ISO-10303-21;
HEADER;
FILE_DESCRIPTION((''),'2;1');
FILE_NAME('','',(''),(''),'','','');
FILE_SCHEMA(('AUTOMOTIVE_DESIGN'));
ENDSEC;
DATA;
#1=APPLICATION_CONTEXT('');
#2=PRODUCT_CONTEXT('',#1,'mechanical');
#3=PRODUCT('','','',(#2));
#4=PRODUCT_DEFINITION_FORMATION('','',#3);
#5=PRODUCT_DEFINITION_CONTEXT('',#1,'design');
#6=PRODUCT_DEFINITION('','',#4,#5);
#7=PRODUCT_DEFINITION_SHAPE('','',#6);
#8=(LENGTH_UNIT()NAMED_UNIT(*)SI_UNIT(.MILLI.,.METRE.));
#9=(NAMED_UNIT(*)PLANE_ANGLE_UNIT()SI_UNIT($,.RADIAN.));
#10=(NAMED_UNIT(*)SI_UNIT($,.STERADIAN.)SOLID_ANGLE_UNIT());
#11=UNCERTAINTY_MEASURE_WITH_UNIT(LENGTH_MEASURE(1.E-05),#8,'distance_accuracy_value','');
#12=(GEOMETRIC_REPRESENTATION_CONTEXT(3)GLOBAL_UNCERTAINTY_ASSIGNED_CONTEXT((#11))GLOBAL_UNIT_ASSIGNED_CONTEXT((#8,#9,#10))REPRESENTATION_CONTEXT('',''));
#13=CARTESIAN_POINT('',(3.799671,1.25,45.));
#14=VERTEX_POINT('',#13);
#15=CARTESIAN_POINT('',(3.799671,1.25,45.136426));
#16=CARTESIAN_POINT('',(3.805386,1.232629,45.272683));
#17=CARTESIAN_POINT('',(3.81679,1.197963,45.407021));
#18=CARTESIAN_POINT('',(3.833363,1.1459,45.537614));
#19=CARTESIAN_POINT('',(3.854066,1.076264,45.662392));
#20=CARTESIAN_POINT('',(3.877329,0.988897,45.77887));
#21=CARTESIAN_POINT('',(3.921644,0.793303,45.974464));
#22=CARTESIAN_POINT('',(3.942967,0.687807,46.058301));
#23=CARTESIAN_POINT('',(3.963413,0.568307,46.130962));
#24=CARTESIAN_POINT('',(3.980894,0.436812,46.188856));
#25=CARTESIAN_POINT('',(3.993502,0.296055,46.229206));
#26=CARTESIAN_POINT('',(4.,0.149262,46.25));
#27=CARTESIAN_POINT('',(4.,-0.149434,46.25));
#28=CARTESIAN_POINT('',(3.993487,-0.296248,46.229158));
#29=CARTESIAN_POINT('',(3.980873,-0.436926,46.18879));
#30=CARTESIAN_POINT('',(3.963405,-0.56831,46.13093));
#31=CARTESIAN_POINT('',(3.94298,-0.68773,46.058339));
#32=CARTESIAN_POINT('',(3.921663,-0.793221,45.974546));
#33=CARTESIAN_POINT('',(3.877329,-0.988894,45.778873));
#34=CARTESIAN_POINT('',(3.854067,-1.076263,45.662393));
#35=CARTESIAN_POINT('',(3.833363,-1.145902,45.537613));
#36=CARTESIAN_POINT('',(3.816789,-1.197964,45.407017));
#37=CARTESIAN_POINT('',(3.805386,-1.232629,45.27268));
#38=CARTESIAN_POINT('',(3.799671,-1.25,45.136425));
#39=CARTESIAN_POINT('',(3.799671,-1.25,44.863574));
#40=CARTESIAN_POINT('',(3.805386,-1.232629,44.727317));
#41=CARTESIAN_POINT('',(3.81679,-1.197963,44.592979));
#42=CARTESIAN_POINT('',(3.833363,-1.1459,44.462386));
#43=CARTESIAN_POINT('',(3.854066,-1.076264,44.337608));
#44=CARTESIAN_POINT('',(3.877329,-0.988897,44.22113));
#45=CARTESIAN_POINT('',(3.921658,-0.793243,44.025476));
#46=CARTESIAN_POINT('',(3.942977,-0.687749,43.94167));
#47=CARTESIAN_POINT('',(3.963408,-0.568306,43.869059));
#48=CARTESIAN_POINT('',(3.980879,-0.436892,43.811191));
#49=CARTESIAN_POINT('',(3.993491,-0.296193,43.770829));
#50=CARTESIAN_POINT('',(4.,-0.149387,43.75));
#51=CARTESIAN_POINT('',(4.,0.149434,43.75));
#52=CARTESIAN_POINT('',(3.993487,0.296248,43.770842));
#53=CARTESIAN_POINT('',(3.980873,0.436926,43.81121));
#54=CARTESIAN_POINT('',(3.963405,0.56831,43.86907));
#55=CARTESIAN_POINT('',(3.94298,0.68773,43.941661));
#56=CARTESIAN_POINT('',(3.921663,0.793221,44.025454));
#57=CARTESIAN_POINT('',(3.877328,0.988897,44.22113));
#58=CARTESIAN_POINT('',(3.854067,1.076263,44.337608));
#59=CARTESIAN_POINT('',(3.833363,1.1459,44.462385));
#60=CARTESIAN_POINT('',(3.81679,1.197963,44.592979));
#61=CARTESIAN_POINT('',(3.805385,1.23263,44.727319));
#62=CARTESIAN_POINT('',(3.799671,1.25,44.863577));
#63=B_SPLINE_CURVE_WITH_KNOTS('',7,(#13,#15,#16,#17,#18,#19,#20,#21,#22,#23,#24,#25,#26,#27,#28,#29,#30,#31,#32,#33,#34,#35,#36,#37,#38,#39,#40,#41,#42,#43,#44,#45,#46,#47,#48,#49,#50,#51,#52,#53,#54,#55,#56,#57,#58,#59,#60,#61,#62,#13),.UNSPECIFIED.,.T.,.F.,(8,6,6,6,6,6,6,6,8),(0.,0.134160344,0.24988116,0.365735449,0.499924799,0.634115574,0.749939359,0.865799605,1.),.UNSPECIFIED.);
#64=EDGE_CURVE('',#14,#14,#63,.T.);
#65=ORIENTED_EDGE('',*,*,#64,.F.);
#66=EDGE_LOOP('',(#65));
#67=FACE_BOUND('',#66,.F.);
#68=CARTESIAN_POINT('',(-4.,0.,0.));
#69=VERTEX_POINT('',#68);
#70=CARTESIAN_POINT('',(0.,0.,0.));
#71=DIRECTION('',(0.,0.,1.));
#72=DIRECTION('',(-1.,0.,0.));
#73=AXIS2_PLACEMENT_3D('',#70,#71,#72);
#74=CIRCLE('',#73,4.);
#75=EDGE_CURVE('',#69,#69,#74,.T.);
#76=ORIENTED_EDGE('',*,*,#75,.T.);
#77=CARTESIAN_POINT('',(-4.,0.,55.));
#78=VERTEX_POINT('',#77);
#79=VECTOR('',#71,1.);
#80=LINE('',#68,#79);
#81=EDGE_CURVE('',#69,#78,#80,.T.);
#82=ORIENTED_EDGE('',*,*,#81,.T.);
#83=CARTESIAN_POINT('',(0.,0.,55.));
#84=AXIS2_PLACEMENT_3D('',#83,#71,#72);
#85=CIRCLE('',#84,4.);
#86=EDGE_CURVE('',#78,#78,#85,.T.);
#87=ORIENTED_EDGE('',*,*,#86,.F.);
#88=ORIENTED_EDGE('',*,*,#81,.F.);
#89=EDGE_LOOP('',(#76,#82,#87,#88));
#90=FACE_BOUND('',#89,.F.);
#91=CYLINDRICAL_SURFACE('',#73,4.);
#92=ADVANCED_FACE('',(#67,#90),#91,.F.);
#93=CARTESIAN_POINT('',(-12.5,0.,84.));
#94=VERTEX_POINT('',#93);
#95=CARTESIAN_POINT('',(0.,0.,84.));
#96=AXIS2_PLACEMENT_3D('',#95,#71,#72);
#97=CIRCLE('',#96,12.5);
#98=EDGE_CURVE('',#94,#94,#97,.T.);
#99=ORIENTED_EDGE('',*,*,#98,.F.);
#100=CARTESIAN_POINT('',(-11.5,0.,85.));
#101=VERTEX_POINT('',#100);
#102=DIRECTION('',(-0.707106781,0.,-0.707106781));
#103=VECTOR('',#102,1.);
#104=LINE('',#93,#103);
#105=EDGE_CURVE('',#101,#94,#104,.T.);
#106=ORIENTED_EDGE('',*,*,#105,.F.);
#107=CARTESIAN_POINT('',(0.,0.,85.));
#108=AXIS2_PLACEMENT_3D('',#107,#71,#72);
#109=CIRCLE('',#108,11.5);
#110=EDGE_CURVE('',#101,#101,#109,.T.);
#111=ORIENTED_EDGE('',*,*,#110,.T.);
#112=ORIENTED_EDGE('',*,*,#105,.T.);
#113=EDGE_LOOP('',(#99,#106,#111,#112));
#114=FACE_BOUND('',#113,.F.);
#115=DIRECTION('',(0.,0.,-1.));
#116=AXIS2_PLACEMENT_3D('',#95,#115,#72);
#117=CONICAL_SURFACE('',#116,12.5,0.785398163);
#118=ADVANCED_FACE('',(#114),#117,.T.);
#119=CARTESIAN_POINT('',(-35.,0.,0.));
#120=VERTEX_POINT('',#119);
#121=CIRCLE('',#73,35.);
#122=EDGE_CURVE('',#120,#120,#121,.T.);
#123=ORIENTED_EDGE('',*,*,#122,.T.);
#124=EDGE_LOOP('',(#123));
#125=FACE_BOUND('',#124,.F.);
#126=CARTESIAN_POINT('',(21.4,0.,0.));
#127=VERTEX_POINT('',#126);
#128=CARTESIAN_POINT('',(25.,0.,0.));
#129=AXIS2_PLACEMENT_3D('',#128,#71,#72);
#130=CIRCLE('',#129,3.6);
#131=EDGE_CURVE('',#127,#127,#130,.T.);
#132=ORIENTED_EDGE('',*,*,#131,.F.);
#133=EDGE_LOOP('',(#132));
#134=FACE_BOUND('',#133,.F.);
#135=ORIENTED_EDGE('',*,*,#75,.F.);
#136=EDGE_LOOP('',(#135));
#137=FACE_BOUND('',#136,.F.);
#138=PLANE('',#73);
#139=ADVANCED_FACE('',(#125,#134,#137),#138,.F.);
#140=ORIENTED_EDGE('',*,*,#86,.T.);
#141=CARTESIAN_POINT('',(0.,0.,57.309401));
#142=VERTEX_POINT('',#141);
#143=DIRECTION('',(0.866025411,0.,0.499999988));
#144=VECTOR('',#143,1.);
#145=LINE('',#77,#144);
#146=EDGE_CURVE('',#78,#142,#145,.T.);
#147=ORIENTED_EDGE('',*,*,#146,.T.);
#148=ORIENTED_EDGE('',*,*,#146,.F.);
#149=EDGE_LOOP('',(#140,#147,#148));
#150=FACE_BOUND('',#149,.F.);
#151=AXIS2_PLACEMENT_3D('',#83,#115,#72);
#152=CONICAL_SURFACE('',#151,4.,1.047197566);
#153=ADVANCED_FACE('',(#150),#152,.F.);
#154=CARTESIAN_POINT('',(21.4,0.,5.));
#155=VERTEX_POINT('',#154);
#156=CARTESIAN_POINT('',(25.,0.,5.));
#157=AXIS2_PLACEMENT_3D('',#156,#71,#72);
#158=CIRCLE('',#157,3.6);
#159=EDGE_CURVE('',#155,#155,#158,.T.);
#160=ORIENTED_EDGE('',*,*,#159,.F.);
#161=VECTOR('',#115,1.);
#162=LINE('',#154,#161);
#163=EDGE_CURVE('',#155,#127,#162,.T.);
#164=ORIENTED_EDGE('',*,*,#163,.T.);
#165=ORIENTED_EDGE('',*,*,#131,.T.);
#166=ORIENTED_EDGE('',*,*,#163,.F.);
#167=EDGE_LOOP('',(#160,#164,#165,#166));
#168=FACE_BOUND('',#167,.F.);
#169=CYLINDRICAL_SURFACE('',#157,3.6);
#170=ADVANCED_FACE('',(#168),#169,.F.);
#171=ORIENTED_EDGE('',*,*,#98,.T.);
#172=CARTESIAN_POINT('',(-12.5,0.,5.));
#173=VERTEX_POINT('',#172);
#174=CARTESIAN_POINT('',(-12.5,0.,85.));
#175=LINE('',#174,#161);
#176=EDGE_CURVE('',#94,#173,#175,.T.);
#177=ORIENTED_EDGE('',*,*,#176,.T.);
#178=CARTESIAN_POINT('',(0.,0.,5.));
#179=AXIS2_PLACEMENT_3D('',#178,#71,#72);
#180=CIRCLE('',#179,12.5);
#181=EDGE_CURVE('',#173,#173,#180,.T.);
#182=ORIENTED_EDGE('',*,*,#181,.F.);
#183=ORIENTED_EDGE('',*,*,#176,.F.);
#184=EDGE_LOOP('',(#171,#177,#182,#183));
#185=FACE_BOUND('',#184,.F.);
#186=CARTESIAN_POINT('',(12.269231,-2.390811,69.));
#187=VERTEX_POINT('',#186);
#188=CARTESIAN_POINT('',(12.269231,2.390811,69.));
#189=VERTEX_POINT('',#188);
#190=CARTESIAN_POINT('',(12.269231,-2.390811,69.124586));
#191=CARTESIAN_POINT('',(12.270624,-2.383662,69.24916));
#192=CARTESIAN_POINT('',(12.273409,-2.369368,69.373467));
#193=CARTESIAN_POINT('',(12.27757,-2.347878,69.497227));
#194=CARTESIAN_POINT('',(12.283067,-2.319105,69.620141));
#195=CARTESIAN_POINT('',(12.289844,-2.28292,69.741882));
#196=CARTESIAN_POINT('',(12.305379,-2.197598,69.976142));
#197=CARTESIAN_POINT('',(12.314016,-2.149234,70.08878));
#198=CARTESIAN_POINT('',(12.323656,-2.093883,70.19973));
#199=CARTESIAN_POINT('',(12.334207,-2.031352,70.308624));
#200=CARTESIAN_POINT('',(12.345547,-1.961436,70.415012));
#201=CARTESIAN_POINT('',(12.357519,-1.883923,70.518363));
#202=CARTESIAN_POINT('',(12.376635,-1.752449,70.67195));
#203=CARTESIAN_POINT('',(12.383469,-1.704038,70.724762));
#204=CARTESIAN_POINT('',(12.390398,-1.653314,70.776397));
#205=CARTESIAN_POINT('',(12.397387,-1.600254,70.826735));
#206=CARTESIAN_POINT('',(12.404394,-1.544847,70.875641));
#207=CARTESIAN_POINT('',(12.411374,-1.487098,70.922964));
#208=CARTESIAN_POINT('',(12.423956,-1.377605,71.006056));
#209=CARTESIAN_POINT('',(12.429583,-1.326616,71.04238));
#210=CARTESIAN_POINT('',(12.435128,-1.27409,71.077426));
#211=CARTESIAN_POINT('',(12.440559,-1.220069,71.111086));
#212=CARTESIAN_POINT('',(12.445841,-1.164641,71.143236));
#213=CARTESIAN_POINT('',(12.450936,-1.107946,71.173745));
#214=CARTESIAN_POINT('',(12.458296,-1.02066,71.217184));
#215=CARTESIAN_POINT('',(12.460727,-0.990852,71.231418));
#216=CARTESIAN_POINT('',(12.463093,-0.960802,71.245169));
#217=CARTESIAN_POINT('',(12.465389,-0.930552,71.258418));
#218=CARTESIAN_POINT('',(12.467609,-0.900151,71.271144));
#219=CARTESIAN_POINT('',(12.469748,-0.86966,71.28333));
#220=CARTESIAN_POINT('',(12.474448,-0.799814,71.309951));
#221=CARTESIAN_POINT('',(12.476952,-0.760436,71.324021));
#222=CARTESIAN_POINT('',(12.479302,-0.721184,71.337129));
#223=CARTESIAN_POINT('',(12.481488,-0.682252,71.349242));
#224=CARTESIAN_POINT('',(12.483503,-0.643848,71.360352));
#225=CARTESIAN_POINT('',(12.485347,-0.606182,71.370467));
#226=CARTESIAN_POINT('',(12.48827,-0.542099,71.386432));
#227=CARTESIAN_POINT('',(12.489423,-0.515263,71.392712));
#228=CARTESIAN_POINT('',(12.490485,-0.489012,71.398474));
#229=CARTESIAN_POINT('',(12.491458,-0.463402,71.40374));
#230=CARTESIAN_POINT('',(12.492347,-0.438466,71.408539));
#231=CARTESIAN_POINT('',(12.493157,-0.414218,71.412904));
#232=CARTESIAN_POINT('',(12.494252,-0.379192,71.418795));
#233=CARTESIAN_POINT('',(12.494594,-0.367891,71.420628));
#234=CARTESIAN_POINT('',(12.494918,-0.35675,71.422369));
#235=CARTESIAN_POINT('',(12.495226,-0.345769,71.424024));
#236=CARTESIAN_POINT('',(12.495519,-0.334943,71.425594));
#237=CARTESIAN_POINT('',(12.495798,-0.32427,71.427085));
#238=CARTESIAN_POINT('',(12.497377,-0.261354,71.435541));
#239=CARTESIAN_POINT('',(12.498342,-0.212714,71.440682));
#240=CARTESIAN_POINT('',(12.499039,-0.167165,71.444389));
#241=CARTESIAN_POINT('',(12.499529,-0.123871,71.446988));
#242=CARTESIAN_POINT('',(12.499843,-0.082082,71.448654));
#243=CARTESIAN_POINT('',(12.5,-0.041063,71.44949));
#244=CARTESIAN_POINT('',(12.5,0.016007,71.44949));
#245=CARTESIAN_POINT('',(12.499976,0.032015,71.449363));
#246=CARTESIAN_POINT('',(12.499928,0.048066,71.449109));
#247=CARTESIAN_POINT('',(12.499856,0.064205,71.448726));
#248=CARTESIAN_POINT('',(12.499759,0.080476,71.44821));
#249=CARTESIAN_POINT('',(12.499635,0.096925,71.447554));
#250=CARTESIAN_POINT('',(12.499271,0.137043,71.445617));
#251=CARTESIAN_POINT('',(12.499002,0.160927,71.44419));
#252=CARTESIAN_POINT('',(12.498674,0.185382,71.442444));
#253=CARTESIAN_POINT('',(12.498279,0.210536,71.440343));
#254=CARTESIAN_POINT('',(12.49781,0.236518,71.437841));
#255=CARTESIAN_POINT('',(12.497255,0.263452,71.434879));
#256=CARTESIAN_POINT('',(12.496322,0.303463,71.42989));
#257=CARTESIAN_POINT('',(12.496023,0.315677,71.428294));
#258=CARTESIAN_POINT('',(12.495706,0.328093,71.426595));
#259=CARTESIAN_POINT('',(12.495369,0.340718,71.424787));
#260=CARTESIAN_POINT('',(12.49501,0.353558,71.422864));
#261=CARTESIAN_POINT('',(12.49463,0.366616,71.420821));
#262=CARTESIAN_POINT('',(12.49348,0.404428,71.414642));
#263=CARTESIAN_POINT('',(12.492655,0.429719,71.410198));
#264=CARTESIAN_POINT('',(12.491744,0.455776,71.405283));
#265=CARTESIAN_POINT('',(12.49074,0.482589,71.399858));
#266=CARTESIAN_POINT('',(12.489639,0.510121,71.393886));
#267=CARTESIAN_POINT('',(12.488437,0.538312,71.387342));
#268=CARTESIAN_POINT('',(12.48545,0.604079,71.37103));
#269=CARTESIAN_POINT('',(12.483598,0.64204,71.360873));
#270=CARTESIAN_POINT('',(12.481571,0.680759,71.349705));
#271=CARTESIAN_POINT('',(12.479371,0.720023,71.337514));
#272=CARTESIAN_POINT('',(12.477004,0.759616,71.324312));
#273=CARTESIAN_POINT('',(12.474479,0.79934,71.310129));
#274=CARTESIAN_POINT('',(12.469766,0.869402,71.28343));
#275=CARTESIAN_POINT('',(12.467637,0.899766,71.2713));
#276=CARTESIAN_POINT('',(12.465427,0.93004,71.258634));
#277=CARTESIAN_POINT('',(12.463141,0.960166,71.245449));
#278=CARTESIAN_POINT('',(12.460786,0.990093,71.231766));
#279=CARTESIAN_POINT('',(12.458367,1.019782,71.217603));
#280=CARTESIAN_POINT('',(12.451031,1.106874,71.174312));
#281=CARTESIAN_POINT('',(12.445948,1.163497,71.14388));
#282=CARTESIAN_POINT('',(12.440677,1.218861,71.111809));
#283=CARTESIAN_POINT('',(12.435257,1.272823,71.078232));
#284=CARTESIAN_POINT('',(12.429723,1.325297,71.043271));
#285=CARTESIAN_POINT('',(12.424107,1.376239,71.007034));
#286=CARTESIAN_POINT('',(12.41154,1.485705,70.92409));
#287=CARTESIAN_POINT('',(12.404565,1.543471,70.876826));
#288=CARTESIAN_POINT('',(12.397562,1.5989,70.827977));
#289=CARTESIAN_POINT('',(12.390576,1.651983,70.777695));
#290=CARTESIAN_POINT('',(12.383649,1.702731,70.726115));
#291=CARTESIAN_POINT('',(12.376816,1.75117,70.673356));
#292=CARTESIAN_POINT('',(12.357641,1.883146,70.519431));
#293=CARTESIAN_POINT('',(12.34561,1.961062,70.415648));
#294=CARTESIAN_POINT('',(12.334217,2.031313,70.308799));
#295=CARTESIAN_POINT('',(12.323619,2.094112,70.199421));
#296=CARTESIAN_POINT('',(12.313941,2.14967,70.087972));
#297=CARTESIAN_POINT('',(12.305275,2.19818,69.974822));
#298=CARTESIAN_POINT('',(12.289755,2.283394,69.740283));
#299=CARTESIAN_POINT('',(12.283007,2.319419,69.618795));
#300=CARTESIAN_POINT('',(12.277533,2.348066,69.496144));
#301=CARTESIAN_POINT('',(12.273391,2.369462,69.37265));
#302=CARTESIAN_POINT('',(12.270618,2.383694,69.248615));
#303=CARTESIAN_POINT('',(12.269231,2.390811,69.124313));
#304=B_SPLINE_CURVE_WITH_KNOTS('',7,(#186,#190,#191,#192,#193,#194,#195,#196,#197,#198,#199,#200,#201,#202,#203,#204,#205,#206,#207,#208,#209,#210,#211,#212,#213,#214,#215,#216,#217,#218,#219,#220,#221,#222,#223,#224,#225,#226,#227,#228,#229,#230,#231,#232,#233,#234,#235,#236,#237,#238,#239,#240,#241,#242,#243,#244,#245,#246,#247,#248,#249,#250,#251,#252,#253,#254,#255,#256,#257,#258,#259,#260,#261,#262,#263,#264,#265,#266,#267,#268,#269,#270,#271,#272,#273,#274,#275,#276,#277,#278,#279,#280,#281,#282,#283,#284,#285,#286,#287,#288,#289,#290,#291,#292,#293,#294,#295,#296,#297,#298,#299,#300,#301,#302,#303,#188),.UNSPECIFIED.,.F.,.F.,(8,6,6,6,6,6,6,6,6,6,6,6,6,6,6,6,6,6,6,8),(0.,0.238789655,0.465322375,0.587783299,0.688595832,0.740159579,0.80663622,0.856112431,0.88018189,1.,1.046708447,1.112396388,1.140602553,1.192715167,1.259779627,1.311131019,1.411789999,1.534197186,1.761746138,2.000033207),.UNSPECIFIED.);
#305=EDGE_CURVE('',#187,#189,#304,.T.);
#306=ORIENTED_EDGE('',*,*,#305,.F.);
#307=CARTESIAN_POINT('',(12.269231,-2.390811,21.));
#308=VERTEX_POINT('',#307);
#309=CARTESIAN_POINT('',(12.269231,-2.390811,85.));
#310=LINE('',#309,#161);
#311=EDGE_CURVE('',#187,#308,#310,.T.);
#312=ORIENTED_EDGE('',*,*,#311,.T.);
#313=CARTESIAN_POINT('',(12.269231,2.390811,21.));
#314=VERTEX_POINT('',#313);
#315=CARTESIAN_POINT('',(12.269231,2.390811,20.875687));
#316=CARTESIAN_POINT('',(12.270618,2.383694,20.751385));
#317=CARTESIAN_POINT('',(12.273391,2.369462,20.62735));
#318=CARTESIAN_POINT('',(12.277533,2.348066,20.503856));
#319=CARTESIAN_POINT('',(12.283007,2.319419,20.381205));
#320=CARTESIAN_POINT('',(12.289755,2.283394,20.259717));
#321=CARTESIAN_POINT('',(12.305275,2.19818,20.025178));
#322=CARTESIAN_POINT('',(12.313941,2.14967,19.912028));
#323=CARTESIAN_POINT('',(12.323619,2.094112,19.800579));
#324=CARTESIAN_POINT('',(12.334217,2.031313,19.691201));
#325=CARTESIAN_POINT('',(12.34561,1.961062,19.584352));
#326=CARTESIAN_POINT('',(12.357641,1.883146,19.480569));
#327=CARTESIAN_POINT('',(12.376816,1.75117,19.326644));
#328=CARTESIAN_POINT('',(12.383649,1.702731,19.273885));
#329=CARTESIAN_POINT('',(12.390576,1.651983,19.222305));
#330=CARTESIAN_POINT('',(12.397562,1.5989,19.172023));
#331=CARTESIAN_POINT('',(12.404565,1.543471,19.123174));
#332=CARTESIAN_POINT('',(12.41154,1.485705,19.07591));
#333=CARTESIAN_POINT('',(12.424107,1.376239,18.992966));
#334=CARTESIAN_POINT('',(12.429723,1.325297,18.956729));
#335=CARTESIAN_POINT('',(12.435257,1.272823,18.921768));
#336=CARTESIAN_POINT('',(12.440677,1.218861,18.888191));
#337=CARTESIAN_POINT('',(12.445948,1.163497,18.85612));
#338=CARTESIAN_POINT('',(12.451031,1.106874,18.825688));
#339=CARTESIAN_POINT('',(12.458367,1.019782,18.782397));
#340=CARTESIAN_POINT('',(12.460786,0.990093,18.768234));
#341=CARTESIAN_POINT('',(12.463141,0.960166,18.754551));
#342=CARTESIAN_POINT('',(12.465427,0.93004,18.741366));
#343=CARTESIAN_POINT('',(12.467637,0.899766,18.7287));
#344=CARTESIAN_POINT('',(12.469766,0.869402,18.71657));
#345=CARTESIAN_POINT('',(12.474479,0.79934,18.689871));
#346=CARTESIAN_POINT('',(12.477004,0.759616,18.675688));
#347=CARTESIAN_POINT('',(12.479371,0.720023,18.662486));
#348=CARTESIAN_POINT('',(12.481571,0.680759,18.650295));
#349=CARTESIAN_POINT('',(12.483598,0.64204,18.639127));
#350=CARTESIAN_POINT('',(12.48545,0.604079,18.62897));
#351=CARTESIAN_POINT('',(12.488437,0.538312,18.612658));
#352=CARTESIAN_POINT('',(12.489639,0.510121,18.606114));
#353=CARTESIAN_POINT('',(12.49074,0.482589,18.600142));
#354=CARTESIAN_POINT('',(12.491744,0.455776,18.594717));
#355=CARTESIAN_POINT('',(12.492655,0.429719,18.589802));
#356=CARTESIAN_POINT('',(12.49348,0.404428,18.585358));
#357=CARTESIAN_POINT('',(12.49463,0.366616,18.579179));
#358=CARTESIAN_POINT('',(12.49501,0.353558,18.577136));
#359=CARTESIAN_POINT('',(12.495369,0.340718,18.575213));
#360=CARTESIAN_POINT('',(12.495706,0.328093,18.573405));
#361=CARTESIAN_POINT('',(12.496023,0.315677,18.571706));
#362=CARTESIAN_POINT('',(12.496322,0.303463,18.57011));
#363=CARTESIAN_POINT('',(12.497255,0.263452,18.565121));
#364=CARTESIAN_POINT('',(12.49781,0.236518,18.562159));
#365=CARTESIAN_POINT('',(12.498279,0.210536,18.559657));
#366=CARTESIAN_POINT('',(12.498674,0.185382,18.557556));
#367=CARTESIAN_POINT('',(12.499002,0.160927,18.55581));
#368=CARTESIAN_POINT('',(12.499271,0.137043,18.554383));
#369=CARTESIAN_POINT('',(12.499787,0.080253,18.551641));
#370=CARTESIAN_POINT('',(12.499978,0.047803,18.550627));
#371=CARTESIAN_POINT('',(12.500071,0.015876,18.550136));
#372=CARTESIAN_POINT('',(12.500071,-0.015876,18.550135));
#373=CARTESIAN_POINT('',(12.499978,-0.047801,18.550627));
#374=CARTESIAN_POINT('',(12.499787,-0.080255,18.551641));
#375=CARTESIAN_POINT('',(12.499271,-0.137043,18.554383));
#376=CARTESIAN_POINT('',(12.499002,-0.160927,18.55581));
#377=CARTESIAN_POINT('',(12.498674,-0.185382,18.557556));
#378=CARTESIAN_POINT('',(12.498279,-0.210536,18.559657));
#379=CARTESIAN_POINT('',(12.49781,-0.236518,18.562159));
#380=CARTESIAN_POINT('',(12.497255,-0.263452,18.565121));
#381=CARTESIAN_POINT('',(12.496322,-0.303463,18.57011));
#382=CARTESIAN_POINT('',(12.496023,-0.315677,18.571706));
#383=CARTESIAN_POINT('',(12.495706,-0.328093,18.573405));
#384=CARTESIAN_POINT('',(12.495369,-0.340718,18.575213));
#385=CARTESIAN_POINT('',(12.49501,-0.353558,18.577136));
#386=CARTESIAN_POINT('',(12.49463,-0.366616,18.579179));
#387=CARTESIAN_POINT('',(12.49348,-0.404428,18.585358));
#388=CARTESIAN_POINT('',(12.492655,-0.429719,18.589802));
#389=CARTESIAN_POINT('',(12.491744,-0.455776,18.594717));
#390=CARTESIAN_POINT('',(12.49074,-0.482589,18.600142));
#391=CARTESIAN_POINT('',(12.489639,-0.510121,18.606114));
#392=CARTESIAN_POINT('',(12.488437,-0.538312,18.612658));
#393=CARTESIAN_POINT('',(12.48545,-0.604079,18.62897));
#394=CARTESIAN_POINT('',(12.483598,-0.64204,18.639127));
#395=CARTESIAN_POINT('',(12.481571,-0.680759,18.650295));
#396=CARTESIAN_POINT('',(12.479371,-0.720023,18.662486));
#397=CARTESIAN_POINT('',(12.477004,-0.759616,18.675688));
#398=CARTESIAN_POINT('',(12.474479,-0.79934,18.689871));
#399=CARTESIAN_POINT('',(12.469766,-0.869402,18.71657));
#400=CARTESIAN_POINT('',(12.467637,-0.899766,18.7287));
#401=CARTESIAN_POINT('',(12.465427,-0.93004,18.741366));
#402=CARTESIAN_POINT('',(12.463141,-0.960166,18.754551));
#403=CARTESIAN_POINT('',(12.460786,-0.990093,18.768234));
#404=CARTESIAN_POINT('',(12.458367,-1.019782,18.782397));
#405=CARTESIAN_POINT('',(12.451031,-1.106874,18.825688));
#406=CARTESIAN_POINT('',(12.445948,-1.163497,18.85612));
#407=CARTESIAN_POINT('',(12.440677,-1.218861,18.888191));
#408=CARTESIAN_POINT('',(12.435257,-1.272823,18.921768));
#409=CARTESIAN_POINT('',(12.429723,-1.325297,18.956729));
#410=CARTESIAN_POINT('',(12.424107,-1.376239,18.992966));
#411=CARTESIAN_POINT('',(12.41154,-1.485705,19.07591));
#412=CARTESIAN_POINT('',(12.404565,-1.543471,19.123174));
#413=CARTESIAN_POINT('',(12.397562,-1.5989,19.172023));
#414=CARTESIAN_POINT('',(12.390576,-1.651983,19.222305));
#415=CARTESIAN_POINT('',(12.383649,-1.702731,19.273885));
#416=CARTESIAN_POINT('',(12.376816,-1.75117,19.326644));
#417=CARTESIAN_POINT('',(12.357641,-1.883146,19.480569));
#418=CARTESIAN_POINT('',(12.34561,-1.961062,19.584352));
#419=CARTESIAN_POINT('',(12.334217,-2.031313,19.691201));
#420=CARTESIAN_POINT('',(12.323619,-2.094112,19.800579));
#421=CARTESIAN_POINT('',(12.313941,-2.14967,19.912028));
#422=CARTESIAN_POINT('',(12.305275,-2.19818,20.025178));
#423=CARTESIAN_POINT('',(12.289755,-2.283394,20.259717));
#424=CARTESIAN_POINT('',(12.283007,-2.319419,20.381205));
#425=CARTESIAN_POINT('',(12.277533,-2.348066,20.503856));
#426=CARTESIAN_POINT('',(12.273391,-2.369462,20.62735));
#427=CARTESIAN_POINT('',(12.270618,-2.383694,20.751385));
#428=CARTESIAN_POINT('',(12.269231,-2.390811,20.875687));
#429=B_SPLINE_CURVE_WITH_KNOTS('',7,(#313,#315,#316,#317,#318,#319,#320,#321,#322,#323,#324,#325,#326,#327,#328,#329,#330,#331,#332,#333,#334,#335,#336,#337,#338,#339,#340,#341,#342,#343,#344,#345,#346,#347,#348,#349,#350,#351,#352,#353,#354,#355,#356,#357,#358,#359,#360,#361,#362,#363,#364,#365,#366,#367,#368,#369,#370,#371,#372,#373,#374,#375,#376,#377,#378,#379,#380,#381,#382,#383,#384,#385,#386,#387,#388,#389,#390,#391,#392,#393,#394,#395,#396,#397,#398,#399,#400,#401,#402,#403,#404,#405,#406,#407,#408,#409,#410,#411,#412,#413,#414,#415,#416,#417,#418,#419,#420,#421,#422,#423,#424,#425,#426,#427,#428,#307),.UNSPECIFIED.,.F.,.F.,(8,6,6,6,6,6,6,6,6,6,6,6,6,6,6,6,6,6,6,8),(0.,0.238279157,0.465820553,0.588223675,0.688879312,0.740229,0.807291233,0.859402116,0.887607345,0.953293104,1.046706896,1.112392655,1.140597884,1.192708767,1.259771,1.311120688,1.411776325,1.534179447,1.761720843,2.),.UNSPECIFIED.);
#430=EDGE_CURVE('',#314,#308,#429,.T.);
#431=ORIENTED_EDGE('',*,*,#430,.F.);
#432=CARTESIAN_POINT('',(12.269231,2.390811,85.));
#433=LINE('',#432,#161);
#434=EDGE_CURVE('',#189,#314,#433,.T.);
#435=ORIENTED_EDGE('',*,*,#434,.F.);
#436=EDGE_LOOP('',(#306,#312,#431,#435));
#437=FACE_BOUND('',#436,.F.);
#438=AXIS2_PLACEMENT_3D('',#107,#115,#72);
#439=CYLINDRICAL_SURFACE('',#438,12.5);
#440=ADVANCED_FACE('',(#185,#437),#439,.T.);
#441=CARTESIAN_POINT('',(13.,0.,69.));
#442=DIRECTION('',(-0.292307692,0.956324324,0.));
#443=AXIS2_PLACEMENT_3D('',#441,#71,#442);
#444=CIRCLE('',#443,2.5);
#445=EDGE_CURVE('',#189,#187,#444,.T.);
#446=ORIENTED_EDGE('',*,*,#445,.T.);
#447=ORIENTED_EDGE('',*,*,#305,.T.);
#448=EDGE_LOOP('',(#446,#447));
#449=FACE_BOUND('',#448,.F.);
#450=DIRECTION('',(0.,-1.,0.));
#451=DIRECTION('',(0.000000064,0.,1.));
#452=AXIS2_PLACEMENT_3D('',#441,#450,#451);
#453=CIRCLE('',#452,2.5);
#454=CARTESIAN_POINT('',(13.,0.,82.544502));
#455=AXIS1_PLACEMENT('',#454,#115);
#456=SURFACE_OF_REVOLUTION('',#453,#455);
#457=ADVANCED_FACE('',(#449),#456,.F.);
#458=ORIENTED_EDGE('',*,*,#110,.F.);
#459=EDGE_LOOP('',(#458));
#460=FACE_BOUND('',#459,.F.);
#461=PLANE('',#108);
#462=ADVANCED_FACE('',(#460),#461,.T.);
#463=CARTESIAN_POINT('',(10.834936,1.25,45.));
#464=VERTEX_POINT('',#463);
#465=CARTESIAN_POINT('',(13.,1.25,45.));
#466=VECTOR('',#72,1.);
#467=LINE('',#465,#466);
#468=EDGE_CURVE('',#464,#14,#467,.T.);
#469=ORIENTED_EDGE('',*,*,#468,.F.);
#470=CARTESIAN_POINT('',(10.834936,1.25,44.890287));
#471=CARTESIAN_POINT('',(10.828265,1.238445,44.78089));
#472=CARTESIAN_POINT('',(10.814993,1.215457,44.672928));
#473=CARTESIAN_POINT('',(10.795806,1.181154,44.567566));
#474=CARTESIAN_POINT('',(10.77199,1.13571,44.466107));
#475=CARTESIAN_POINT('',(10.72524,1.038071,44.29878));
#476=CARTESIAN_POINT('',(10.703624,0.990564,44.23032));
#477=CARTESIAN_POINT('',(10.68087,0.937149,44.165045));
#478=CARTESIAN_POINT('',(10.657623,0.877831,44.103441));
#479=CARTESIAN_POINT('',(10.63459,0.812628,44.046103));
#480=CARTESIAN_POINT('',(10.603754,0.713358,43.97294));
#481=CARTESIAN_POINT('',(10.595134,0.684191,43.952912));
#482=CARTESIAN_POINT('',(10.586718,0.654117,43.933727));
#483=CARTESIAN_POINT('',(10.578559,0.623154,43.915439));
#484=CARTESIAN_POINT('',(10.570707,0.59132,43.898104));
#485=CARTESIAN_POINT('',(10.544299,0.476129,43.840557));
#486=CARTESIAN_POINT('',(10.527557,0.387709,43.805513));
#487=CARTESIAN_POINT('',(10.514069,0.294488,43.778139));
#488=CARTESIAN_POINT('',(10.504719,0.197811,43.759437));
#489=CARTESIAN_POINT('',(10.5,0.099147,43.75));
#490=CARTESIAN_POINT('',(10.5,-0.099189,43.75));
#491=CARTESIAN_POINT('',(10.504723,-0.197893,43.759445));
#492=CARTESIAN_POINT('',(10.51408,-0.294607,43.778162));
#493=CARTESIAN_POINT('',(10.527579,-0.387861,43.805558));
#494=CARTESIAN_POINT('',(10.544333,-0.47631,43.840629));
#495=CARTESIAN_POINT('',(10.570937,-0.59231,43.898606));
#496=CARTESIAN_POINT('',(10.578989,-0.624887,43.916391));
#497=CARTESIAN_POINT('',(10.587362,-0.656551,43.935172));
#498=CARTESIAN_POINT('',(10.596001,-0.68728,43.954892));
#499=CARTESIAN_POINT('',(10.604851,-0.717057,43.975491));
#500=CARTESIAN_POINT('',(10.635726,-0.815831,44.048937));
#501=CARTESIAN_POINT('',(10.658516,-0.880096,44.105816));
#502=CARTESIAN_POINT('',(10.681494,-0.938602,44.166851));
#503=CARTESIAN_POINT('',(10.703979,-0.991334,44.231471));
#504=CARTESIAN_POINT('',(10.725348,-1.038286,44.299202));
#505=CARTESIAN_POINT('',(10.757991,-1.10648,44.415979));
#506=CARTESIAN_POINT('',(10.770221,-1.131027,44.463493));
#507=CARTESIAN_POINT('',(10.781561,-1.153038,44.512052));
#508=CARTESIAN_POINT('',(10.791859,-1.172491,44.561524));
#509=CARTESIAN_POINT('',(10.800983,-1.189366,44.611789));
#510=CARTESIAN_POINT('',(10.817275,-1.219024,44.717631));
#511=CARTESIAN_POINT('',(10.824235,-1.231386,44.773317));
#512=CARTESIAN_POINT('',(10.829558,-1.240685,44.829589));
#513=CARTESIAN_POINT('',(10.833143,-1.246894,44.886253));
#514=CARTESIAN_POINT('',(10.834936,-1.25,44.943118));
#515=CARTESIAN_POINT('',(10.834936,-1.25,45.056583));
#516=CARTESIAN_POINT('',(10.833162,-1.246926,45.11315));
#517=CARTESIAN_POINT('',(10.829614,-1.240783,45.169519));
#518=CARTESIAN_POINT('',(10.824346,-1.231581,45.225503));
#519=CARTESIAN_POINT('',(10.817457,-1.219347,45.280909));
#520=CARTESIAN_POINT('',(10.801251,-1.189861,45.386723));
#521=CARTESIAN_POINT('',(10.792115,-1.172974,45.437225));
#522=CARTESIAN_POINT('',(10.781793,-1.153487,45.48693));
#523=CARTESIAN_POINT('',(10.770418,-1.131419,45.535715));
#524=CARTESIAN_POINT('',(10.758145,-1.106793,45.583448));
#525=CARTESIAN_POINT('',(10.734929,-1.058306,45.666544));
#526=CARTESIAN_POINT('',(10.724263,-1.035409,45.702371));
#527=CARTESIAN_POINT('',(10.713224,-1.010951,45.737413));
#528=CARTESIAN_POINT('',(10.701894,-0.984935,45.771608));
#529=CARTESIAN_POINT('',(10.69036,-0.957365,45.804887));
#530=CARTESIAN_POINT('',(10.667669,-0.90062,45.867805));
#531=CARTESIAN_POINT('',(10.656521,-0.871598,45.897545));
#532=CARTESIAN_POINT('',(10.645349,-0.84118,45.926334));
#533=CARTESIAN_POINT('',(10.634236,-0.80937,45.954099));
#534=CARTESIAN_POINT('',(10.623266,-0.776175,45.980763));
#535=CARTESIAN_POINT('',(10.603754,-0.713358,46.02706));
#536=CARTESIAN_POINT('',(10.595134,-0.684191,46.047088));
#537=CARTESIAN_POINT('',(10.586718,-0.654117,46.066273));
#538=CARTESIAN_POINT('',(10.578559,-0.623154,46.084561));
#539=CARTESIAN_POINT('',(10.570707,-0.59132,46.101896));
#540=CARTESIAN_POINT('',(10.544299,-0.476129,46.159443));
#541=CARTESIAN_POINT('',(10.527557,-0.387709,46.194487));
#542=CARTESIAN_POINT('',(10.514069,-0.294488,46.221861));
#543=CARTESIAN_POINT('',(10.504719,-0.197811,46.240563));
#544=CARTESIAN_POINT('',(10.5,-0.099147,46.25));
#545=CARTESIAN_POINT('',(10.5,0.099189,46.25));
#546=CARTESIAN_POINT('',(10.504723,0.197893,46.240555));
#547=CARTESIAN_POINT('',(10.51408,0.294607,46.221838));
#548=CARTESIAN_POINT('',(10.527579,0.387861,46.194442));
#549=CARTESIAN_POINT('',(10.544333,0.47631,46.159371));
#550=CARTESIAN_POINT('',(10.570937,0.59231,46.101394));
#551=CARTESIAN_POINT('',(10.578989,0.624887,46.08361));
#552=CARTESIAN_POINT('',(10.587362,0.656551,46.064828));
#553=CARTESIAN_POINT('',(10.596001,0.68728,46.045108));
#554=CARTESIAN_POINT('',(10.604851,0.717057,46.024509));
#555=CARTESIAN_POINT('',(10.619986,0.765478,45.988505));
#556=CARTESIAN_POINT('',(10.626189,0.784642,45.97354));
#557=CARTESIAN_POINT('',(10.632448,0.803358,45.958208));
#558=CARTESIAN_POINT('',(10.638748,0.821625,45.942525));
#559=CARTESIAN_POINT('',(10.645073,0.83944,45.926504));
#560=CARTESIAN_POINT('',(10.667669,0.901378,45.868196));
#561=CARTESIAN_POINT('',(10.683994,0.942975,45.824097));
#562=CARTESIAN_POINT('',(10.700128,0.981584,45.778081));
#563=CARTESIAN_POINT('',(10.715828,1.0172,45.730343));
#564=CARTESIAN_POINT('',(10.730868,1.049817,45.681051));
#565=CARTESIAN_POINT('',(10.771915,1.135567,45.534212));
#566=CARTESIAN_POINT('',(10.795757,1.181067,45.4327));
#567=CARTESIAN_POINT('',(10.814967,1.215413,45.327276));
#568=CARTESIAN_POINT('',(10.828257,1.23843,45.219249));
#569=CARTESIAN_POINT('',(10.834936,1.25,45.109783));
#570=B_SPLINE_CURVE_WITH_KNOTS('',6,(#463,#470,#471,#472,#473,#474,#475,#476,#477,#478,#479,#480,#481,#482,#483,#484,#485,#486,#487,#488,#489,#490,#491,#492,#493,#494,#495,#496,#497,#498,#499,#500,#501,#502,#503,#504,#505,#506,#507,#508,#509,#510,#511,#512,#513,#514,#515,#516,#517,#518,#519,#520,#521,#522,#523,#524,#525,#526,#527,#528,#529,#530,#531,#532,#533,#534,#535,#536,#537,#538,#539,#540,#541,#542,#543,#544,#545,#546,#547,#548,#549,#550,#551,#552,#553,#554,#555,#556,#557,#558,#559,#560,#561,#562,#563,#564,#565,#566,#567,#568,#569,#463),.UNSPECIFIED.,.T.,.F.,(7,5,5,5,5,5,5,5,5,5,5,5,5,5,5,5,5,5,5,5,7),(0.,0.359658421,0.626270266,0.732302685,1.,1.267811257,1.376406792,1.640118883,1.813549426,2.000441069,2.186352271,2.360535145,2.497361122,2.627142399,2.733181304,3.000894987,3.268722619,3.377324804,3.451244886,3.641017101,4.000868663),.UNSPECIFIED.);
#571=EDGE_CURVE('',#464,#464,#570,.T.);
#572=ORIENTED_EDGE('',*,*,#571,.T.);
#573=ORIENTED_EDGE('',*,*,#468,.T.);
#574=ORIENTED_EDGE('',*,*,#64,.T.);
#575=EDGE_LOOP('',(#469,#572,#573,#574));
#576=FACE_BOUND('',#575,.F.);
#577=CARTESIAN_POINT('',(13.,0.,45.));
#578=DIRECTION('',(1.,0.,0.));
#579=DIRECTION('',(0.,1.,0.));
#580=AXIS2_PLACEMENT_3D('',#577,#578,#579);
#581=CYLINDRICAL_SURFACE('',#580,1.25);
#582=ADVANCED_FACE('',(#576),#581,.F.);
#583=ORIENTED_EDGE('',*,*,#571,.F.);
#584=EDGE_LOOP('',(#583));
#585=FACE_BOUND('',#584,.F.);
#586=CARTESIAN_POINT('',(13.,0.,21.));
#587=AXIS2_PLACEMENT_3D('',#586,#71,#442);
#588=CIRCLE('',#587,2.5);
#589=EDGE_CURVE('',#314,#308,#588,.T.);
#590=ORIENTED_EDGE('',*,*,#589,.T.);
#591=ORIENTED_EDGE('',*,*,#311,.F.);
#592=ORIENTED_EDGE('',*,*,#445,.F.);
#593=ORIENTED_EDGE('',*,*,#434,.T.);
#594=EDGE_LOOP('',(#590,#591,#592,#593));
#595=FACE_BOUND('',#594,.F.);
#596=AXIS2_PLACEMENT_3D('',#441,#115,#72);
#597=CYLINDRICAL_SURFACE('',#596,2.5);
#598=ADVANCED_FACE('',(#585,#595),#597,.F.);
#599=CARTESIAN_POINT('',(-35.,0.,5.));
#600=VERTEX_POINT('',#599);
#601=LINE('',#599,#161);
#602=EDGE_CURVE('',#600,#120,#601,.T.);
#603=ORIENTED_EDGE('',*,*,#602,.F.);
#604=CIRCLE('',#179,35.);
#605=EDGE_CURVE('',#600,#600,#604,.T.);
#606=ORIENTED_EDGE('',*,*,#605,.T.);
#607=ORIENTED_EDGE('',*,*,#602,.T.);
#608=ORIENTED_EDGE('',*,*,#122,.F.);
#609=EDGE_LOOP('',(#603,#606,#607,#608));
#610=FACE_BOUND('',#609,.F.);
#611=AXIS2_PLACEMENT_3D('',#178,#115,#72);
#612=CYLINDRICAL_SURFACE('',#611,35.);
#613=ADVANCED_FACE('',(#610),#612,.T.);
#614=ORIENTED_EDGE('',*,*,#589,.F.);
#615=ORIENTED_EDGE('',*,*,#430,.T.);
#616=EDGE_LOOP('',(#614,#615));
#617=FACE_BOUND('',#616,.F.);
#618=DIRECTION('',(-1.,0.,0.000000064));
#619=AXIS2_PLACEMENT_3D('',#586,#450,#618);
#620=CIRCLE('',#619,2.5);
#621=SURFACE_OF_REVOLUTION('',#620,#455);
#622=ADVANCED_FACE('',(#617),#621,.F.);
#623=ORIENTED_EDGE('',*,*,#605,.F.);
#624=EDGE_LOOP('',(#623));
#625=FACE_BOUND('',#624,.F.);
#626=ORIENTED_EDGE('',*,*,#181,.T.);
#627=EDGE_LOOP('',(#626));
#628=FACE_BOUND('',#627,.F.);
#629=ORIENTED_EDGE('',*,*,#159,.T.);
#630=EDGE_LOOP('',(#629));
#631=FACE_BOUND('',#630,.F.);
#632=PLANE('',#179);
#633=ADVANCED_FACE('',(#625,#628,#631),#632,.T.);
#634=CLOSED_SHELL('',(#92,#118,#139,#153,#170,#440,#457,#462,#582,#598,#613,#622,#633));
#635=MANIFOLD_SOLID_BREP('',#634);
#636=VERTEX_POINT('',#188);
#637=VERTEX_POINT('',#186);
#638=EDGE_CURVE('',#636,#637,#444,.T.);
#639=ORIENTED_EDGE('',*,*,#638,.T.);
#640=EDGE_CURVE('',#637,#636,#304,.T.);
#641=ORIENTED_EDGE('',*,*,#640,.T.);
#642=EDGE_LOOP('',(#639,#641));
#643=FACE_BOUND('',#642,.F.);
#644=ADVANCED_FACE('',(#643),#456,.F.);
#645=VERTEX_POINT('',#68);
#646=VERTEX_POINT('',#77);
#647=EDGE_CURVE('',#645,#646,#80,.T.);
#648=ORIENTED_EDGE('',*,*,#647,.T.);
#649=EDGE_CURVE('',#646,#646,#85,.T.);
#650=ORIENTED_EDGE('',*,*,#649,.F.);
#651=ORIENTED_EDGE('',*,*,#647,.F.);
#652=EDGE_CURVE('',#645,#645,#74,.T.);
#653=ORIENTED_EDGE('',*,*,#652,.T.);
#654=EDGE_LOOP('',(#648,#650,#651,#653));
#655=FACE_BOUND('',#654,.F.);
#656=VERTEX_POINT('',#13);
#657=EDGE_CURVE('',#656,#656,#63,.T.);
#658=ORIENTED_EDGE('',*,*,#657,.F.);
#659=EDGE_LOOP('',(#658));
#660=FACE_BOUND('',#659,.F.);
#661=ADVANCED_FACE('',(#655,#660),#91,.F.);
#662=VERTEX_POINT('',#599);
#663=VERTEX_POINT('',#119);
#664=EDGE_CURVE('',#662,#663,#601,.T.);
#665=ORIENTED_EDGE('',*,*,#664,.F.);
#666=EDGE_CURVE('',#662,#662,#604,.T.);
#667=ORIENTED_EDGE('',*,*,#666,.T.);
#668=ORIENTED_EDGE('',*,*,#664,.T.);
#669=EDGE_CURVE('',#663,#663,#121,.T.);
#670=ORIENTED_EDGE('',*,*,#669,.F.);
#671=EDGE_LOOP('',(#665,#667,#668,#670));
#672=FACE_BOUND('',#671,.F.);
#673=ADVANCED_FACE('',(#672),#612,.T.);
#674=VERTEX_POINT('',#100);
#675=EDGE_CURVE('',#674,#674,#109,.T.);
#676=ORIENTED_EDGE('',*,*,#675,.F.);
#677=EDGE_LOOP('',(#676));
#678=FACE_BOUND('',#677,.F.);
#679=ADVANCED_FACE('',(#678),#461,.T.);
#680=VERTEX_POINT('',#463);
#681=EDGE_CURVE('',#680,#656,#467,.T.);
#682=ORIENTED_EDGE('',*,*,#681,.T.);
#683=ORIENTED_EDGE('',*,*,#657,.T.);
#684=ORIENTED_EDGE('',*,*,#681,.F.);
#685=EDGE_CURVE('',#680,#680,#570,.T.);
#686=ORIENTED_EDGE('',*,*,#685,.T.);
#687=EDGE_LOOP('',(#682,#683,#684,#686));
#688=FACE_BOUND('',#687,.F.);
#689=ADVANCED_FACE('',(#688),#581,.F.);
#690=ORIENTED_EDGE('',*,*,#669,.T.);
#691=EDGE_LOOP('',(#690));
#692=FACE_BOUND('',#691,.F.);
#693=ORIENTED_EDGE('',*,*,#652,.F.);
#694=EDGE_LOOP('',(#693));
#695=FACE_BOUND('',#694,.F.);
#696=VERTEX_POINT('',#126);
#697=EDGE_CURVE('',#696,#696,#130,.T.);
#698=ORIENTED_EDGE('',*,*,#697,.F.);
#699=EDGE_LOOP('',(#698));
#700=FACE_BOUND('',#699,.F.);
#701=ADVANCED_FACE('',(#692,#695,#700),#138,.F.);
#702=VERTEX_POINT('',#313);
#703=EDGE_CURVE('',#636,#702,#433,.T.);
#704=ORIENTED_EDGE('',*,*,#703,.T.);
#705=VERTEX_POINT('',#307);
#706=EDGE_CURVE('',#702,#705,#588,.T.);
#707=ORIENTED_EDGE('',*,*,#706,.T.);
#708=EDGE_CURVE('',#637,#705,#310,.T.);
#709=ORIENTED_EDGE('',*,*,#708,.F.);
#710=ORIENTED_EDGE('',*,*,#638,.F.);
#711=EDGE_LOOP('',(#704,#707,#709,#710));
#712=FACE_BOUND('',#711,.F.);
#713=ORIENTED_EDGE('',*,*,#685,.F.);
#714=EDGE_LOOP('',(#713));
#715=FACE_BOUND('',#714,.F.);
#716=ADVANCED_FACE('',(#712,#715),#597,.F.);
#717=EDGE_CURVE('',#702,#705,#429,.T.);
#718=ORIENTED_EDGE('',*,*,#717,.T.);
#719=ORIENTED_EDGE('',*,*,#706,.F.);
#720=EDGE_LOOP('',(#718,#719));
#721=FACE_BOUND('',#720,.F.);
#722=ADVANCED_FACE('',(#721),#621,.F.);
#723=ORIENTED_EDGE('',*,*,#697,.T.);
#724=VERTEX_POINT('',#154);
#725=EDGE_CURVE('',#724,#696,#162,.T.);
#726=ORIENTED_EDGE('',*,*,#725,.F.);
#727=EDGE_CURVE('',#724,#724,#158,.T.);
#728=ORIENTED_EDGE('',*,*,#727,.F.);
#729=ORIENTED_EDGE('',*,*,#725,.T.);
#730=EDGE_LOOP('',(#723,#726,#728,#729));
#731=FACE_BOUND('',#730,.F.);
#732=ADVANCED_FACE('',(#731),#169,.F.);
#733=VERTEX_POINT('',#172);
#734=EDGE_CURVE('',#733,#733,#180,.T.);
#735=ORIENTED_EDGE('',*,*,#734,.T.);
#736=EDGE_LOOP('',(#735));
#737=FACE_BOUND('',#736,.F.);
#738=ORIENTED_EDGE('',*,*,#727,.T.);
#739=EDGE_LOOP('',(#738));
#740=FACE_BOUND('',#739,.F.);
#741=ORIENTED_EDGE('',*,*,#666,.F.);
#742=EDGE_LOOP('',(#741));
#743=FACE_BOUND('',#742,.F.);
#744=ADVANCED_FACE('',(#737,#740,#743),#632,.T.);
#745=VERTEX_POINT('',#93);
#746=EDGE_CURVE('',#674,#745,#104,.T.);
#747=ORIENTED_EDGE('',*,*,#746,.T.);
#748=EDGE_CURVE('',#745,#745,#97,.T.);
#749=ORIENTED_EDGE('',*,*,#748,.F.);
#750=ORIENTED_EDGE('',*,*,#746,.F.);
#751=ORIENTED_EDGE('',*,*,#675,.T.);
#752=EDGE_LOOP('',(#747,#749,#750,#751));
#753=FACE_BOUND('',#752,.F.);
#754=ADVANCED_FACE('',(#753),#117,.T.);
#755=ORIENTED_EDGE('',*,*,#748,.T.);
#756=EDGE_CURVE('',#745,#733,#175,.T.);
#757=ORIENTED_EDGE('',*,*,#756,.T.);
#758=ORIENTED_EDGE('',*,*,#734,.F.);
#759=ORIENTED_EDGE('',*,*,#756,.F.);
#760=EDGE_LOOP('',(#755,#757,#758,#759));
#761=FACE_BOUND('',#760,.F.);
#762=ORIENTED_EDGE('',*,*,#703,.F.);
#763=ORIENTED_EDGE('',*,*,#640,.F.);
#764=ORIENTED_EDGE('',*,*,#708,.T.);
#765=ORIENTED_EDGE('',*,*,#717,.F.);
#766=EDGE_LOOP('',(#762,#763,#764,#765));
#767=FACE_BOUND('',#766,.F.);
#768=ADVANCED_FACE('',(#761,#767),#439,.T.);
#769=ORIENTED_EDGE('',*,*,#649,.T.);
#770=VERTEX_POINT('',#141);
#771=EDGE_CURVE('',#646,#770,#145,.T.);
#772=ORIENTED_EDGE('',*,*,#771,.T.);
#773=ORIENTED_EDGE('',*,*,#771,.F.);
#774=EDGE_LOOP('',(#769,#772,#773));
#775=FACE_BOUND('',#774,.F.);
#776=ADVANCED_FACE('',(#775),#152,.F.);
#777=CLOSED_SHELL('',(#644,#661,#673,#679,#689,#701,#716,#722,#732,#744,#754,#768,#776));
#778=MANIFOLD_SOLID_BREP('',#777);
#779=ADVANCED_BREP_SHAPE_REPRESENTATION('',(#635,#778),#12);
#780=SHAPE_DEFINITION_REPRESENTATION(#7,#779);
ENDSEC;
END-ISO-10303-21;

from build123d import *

# Parameters (mm, degrees)
SKETCH002_R     = 1.25
POCKET_DEPTH    = 13
SKETCH003_R     = 3.6
POCKET001_DEPTH = 5.001
CHAMFER_SIZE    = 1
SKETCH006_R     = 1.25
POCKET002_DEPTH = 13
SKETCH007_R     = 3.6
POCKET003_DEPTH = 5.001
CHAMFER001_SIZE = 1


with BuildPart() as body:
    # Sketch → Revolution (revolve)
    with BuildSketch(Plane.XZ):
        Polygon((0, 85), (-12.5, 85), (-12.5, 5), (-35, 5), (-35, 0), (-4, 0), (-4, 55), (0, 57.309401), align=None)
    revolve(axis=Axis((0, 0, 0), (0, 0, 1)))

    # Sketch001 (on DatumPlane) → Groove (revolve, cut)
    with BuildSketch(Plane.XZ):
        with BuildLine():
            Line((13, 71.5), (13, 18.5))
            ThreePointArc((10.5, 21), (11.232233, 19.232233), (13, 18.5))
            Line((10.5, 69), (10.5, 21))
            ThreePointArc((13, 71.5), (11.232233, 70.767767), (10.5, 69))
        make_face()
    revolve(axis=Axis((13, 0, 82.544502), (0, 0, -1)), mode=Mode.SUBTRACT)

    # Sketch002 (on DatumPlane) → Pocket (cut)
    with BuildSketch(Plane.YZ.offset(13)):
        with Locations((0, 45)):
            Circle(SKETCH002_R)
    extrude(amount=-POCKET_DEPTH, mode=Mode.SUBTRACT)

    # Sketch003 (on Face3 of Pocket) → Pocket001 (cut, through all)
    with BuildSketch(Plane(origin=(0, 0, 5), x_dir=(-1, 0, 0), z_dir=(0, 0, 1))):
        with Locations((-25, 0)):
            Circle(SKETCH003_R)
    extrude(amount=-POCKET001_DEPTH, mode=Mode.SUBTRACT)

    # Chamfer
    chamfer_edges = [body.edges().sort_by_distance(p)[0] for p in [
        (12.5, 0, 85),
    ]]
    chamfer(chamfer_edges, length=CHAMFER_SIZE)


with BuildPart() as chamfer001:
    # Sketch004 → Revolution001 (revolve)
    with BuildSketch(Plane.XZ):
        Polygon((0, 85), (-12.5, 85), (-12.5, 5), (-35, 5), (-35, 0), (-4, 0), (-4, 55), (0, 57.309401), align=None)
    revolve(axis=Axis((0, 0, 0), (0, 0, 1)))

    # Sketch005 (on DatumPlane) → Groove001 (revolve, cut)
    with BuildSketch(Plane.XZ):
        with BuildLine():
            Line((13, 71.5), (13, 18.5))
            ThreePointArc((10.5, 21), (11.232233, 19.232233), (13, 18.5))
            Line((10.5, 69), (10.5, 21))
            ThreePointArc((13, 71.5), (11.232233, 70.767767), (10.5, 69))
        make_face()
    revolve(axis=Axis((13, 0, 82.544502), (0, 0, -1)), mode=Mode.SUBTRACT)

    # Sketch006 (on DatumPlane) → Pocket002 (cut)
    with BuildSketch(Plane.YZ.offset(13)):
        with Locations((0, 45)):
            Circle(SKETCH006_R)
    extrude(amount=-POCKET002_DEPTH, mode=Mode.SUBTRACT)

    # Sketch007 (on Face3 of Pocket002) → Pocket003 (cut, through all)
    with BuildSketch(Plane(origin=(0, 0, 5), x_dir=(-1, 0, 0), z_dir=(0, 0, 1))):
        with Locations((-25, 0)):
            Circle(SKETCH007_R)
    extrude(amount=-POCKET003_DEPTH, mode=Mode.SUBTRACT)

    # Chamfer001
    chamfer001_edges = [chamfer001.edges().sort_by_distance(p)[0] for p in [
        (12.5, 0, 85),
    ]]
    chamfer(chamfer001_edges, length=CHAMFER001_SIZE)


solid = Compound([body.part, chamfer001.part])
